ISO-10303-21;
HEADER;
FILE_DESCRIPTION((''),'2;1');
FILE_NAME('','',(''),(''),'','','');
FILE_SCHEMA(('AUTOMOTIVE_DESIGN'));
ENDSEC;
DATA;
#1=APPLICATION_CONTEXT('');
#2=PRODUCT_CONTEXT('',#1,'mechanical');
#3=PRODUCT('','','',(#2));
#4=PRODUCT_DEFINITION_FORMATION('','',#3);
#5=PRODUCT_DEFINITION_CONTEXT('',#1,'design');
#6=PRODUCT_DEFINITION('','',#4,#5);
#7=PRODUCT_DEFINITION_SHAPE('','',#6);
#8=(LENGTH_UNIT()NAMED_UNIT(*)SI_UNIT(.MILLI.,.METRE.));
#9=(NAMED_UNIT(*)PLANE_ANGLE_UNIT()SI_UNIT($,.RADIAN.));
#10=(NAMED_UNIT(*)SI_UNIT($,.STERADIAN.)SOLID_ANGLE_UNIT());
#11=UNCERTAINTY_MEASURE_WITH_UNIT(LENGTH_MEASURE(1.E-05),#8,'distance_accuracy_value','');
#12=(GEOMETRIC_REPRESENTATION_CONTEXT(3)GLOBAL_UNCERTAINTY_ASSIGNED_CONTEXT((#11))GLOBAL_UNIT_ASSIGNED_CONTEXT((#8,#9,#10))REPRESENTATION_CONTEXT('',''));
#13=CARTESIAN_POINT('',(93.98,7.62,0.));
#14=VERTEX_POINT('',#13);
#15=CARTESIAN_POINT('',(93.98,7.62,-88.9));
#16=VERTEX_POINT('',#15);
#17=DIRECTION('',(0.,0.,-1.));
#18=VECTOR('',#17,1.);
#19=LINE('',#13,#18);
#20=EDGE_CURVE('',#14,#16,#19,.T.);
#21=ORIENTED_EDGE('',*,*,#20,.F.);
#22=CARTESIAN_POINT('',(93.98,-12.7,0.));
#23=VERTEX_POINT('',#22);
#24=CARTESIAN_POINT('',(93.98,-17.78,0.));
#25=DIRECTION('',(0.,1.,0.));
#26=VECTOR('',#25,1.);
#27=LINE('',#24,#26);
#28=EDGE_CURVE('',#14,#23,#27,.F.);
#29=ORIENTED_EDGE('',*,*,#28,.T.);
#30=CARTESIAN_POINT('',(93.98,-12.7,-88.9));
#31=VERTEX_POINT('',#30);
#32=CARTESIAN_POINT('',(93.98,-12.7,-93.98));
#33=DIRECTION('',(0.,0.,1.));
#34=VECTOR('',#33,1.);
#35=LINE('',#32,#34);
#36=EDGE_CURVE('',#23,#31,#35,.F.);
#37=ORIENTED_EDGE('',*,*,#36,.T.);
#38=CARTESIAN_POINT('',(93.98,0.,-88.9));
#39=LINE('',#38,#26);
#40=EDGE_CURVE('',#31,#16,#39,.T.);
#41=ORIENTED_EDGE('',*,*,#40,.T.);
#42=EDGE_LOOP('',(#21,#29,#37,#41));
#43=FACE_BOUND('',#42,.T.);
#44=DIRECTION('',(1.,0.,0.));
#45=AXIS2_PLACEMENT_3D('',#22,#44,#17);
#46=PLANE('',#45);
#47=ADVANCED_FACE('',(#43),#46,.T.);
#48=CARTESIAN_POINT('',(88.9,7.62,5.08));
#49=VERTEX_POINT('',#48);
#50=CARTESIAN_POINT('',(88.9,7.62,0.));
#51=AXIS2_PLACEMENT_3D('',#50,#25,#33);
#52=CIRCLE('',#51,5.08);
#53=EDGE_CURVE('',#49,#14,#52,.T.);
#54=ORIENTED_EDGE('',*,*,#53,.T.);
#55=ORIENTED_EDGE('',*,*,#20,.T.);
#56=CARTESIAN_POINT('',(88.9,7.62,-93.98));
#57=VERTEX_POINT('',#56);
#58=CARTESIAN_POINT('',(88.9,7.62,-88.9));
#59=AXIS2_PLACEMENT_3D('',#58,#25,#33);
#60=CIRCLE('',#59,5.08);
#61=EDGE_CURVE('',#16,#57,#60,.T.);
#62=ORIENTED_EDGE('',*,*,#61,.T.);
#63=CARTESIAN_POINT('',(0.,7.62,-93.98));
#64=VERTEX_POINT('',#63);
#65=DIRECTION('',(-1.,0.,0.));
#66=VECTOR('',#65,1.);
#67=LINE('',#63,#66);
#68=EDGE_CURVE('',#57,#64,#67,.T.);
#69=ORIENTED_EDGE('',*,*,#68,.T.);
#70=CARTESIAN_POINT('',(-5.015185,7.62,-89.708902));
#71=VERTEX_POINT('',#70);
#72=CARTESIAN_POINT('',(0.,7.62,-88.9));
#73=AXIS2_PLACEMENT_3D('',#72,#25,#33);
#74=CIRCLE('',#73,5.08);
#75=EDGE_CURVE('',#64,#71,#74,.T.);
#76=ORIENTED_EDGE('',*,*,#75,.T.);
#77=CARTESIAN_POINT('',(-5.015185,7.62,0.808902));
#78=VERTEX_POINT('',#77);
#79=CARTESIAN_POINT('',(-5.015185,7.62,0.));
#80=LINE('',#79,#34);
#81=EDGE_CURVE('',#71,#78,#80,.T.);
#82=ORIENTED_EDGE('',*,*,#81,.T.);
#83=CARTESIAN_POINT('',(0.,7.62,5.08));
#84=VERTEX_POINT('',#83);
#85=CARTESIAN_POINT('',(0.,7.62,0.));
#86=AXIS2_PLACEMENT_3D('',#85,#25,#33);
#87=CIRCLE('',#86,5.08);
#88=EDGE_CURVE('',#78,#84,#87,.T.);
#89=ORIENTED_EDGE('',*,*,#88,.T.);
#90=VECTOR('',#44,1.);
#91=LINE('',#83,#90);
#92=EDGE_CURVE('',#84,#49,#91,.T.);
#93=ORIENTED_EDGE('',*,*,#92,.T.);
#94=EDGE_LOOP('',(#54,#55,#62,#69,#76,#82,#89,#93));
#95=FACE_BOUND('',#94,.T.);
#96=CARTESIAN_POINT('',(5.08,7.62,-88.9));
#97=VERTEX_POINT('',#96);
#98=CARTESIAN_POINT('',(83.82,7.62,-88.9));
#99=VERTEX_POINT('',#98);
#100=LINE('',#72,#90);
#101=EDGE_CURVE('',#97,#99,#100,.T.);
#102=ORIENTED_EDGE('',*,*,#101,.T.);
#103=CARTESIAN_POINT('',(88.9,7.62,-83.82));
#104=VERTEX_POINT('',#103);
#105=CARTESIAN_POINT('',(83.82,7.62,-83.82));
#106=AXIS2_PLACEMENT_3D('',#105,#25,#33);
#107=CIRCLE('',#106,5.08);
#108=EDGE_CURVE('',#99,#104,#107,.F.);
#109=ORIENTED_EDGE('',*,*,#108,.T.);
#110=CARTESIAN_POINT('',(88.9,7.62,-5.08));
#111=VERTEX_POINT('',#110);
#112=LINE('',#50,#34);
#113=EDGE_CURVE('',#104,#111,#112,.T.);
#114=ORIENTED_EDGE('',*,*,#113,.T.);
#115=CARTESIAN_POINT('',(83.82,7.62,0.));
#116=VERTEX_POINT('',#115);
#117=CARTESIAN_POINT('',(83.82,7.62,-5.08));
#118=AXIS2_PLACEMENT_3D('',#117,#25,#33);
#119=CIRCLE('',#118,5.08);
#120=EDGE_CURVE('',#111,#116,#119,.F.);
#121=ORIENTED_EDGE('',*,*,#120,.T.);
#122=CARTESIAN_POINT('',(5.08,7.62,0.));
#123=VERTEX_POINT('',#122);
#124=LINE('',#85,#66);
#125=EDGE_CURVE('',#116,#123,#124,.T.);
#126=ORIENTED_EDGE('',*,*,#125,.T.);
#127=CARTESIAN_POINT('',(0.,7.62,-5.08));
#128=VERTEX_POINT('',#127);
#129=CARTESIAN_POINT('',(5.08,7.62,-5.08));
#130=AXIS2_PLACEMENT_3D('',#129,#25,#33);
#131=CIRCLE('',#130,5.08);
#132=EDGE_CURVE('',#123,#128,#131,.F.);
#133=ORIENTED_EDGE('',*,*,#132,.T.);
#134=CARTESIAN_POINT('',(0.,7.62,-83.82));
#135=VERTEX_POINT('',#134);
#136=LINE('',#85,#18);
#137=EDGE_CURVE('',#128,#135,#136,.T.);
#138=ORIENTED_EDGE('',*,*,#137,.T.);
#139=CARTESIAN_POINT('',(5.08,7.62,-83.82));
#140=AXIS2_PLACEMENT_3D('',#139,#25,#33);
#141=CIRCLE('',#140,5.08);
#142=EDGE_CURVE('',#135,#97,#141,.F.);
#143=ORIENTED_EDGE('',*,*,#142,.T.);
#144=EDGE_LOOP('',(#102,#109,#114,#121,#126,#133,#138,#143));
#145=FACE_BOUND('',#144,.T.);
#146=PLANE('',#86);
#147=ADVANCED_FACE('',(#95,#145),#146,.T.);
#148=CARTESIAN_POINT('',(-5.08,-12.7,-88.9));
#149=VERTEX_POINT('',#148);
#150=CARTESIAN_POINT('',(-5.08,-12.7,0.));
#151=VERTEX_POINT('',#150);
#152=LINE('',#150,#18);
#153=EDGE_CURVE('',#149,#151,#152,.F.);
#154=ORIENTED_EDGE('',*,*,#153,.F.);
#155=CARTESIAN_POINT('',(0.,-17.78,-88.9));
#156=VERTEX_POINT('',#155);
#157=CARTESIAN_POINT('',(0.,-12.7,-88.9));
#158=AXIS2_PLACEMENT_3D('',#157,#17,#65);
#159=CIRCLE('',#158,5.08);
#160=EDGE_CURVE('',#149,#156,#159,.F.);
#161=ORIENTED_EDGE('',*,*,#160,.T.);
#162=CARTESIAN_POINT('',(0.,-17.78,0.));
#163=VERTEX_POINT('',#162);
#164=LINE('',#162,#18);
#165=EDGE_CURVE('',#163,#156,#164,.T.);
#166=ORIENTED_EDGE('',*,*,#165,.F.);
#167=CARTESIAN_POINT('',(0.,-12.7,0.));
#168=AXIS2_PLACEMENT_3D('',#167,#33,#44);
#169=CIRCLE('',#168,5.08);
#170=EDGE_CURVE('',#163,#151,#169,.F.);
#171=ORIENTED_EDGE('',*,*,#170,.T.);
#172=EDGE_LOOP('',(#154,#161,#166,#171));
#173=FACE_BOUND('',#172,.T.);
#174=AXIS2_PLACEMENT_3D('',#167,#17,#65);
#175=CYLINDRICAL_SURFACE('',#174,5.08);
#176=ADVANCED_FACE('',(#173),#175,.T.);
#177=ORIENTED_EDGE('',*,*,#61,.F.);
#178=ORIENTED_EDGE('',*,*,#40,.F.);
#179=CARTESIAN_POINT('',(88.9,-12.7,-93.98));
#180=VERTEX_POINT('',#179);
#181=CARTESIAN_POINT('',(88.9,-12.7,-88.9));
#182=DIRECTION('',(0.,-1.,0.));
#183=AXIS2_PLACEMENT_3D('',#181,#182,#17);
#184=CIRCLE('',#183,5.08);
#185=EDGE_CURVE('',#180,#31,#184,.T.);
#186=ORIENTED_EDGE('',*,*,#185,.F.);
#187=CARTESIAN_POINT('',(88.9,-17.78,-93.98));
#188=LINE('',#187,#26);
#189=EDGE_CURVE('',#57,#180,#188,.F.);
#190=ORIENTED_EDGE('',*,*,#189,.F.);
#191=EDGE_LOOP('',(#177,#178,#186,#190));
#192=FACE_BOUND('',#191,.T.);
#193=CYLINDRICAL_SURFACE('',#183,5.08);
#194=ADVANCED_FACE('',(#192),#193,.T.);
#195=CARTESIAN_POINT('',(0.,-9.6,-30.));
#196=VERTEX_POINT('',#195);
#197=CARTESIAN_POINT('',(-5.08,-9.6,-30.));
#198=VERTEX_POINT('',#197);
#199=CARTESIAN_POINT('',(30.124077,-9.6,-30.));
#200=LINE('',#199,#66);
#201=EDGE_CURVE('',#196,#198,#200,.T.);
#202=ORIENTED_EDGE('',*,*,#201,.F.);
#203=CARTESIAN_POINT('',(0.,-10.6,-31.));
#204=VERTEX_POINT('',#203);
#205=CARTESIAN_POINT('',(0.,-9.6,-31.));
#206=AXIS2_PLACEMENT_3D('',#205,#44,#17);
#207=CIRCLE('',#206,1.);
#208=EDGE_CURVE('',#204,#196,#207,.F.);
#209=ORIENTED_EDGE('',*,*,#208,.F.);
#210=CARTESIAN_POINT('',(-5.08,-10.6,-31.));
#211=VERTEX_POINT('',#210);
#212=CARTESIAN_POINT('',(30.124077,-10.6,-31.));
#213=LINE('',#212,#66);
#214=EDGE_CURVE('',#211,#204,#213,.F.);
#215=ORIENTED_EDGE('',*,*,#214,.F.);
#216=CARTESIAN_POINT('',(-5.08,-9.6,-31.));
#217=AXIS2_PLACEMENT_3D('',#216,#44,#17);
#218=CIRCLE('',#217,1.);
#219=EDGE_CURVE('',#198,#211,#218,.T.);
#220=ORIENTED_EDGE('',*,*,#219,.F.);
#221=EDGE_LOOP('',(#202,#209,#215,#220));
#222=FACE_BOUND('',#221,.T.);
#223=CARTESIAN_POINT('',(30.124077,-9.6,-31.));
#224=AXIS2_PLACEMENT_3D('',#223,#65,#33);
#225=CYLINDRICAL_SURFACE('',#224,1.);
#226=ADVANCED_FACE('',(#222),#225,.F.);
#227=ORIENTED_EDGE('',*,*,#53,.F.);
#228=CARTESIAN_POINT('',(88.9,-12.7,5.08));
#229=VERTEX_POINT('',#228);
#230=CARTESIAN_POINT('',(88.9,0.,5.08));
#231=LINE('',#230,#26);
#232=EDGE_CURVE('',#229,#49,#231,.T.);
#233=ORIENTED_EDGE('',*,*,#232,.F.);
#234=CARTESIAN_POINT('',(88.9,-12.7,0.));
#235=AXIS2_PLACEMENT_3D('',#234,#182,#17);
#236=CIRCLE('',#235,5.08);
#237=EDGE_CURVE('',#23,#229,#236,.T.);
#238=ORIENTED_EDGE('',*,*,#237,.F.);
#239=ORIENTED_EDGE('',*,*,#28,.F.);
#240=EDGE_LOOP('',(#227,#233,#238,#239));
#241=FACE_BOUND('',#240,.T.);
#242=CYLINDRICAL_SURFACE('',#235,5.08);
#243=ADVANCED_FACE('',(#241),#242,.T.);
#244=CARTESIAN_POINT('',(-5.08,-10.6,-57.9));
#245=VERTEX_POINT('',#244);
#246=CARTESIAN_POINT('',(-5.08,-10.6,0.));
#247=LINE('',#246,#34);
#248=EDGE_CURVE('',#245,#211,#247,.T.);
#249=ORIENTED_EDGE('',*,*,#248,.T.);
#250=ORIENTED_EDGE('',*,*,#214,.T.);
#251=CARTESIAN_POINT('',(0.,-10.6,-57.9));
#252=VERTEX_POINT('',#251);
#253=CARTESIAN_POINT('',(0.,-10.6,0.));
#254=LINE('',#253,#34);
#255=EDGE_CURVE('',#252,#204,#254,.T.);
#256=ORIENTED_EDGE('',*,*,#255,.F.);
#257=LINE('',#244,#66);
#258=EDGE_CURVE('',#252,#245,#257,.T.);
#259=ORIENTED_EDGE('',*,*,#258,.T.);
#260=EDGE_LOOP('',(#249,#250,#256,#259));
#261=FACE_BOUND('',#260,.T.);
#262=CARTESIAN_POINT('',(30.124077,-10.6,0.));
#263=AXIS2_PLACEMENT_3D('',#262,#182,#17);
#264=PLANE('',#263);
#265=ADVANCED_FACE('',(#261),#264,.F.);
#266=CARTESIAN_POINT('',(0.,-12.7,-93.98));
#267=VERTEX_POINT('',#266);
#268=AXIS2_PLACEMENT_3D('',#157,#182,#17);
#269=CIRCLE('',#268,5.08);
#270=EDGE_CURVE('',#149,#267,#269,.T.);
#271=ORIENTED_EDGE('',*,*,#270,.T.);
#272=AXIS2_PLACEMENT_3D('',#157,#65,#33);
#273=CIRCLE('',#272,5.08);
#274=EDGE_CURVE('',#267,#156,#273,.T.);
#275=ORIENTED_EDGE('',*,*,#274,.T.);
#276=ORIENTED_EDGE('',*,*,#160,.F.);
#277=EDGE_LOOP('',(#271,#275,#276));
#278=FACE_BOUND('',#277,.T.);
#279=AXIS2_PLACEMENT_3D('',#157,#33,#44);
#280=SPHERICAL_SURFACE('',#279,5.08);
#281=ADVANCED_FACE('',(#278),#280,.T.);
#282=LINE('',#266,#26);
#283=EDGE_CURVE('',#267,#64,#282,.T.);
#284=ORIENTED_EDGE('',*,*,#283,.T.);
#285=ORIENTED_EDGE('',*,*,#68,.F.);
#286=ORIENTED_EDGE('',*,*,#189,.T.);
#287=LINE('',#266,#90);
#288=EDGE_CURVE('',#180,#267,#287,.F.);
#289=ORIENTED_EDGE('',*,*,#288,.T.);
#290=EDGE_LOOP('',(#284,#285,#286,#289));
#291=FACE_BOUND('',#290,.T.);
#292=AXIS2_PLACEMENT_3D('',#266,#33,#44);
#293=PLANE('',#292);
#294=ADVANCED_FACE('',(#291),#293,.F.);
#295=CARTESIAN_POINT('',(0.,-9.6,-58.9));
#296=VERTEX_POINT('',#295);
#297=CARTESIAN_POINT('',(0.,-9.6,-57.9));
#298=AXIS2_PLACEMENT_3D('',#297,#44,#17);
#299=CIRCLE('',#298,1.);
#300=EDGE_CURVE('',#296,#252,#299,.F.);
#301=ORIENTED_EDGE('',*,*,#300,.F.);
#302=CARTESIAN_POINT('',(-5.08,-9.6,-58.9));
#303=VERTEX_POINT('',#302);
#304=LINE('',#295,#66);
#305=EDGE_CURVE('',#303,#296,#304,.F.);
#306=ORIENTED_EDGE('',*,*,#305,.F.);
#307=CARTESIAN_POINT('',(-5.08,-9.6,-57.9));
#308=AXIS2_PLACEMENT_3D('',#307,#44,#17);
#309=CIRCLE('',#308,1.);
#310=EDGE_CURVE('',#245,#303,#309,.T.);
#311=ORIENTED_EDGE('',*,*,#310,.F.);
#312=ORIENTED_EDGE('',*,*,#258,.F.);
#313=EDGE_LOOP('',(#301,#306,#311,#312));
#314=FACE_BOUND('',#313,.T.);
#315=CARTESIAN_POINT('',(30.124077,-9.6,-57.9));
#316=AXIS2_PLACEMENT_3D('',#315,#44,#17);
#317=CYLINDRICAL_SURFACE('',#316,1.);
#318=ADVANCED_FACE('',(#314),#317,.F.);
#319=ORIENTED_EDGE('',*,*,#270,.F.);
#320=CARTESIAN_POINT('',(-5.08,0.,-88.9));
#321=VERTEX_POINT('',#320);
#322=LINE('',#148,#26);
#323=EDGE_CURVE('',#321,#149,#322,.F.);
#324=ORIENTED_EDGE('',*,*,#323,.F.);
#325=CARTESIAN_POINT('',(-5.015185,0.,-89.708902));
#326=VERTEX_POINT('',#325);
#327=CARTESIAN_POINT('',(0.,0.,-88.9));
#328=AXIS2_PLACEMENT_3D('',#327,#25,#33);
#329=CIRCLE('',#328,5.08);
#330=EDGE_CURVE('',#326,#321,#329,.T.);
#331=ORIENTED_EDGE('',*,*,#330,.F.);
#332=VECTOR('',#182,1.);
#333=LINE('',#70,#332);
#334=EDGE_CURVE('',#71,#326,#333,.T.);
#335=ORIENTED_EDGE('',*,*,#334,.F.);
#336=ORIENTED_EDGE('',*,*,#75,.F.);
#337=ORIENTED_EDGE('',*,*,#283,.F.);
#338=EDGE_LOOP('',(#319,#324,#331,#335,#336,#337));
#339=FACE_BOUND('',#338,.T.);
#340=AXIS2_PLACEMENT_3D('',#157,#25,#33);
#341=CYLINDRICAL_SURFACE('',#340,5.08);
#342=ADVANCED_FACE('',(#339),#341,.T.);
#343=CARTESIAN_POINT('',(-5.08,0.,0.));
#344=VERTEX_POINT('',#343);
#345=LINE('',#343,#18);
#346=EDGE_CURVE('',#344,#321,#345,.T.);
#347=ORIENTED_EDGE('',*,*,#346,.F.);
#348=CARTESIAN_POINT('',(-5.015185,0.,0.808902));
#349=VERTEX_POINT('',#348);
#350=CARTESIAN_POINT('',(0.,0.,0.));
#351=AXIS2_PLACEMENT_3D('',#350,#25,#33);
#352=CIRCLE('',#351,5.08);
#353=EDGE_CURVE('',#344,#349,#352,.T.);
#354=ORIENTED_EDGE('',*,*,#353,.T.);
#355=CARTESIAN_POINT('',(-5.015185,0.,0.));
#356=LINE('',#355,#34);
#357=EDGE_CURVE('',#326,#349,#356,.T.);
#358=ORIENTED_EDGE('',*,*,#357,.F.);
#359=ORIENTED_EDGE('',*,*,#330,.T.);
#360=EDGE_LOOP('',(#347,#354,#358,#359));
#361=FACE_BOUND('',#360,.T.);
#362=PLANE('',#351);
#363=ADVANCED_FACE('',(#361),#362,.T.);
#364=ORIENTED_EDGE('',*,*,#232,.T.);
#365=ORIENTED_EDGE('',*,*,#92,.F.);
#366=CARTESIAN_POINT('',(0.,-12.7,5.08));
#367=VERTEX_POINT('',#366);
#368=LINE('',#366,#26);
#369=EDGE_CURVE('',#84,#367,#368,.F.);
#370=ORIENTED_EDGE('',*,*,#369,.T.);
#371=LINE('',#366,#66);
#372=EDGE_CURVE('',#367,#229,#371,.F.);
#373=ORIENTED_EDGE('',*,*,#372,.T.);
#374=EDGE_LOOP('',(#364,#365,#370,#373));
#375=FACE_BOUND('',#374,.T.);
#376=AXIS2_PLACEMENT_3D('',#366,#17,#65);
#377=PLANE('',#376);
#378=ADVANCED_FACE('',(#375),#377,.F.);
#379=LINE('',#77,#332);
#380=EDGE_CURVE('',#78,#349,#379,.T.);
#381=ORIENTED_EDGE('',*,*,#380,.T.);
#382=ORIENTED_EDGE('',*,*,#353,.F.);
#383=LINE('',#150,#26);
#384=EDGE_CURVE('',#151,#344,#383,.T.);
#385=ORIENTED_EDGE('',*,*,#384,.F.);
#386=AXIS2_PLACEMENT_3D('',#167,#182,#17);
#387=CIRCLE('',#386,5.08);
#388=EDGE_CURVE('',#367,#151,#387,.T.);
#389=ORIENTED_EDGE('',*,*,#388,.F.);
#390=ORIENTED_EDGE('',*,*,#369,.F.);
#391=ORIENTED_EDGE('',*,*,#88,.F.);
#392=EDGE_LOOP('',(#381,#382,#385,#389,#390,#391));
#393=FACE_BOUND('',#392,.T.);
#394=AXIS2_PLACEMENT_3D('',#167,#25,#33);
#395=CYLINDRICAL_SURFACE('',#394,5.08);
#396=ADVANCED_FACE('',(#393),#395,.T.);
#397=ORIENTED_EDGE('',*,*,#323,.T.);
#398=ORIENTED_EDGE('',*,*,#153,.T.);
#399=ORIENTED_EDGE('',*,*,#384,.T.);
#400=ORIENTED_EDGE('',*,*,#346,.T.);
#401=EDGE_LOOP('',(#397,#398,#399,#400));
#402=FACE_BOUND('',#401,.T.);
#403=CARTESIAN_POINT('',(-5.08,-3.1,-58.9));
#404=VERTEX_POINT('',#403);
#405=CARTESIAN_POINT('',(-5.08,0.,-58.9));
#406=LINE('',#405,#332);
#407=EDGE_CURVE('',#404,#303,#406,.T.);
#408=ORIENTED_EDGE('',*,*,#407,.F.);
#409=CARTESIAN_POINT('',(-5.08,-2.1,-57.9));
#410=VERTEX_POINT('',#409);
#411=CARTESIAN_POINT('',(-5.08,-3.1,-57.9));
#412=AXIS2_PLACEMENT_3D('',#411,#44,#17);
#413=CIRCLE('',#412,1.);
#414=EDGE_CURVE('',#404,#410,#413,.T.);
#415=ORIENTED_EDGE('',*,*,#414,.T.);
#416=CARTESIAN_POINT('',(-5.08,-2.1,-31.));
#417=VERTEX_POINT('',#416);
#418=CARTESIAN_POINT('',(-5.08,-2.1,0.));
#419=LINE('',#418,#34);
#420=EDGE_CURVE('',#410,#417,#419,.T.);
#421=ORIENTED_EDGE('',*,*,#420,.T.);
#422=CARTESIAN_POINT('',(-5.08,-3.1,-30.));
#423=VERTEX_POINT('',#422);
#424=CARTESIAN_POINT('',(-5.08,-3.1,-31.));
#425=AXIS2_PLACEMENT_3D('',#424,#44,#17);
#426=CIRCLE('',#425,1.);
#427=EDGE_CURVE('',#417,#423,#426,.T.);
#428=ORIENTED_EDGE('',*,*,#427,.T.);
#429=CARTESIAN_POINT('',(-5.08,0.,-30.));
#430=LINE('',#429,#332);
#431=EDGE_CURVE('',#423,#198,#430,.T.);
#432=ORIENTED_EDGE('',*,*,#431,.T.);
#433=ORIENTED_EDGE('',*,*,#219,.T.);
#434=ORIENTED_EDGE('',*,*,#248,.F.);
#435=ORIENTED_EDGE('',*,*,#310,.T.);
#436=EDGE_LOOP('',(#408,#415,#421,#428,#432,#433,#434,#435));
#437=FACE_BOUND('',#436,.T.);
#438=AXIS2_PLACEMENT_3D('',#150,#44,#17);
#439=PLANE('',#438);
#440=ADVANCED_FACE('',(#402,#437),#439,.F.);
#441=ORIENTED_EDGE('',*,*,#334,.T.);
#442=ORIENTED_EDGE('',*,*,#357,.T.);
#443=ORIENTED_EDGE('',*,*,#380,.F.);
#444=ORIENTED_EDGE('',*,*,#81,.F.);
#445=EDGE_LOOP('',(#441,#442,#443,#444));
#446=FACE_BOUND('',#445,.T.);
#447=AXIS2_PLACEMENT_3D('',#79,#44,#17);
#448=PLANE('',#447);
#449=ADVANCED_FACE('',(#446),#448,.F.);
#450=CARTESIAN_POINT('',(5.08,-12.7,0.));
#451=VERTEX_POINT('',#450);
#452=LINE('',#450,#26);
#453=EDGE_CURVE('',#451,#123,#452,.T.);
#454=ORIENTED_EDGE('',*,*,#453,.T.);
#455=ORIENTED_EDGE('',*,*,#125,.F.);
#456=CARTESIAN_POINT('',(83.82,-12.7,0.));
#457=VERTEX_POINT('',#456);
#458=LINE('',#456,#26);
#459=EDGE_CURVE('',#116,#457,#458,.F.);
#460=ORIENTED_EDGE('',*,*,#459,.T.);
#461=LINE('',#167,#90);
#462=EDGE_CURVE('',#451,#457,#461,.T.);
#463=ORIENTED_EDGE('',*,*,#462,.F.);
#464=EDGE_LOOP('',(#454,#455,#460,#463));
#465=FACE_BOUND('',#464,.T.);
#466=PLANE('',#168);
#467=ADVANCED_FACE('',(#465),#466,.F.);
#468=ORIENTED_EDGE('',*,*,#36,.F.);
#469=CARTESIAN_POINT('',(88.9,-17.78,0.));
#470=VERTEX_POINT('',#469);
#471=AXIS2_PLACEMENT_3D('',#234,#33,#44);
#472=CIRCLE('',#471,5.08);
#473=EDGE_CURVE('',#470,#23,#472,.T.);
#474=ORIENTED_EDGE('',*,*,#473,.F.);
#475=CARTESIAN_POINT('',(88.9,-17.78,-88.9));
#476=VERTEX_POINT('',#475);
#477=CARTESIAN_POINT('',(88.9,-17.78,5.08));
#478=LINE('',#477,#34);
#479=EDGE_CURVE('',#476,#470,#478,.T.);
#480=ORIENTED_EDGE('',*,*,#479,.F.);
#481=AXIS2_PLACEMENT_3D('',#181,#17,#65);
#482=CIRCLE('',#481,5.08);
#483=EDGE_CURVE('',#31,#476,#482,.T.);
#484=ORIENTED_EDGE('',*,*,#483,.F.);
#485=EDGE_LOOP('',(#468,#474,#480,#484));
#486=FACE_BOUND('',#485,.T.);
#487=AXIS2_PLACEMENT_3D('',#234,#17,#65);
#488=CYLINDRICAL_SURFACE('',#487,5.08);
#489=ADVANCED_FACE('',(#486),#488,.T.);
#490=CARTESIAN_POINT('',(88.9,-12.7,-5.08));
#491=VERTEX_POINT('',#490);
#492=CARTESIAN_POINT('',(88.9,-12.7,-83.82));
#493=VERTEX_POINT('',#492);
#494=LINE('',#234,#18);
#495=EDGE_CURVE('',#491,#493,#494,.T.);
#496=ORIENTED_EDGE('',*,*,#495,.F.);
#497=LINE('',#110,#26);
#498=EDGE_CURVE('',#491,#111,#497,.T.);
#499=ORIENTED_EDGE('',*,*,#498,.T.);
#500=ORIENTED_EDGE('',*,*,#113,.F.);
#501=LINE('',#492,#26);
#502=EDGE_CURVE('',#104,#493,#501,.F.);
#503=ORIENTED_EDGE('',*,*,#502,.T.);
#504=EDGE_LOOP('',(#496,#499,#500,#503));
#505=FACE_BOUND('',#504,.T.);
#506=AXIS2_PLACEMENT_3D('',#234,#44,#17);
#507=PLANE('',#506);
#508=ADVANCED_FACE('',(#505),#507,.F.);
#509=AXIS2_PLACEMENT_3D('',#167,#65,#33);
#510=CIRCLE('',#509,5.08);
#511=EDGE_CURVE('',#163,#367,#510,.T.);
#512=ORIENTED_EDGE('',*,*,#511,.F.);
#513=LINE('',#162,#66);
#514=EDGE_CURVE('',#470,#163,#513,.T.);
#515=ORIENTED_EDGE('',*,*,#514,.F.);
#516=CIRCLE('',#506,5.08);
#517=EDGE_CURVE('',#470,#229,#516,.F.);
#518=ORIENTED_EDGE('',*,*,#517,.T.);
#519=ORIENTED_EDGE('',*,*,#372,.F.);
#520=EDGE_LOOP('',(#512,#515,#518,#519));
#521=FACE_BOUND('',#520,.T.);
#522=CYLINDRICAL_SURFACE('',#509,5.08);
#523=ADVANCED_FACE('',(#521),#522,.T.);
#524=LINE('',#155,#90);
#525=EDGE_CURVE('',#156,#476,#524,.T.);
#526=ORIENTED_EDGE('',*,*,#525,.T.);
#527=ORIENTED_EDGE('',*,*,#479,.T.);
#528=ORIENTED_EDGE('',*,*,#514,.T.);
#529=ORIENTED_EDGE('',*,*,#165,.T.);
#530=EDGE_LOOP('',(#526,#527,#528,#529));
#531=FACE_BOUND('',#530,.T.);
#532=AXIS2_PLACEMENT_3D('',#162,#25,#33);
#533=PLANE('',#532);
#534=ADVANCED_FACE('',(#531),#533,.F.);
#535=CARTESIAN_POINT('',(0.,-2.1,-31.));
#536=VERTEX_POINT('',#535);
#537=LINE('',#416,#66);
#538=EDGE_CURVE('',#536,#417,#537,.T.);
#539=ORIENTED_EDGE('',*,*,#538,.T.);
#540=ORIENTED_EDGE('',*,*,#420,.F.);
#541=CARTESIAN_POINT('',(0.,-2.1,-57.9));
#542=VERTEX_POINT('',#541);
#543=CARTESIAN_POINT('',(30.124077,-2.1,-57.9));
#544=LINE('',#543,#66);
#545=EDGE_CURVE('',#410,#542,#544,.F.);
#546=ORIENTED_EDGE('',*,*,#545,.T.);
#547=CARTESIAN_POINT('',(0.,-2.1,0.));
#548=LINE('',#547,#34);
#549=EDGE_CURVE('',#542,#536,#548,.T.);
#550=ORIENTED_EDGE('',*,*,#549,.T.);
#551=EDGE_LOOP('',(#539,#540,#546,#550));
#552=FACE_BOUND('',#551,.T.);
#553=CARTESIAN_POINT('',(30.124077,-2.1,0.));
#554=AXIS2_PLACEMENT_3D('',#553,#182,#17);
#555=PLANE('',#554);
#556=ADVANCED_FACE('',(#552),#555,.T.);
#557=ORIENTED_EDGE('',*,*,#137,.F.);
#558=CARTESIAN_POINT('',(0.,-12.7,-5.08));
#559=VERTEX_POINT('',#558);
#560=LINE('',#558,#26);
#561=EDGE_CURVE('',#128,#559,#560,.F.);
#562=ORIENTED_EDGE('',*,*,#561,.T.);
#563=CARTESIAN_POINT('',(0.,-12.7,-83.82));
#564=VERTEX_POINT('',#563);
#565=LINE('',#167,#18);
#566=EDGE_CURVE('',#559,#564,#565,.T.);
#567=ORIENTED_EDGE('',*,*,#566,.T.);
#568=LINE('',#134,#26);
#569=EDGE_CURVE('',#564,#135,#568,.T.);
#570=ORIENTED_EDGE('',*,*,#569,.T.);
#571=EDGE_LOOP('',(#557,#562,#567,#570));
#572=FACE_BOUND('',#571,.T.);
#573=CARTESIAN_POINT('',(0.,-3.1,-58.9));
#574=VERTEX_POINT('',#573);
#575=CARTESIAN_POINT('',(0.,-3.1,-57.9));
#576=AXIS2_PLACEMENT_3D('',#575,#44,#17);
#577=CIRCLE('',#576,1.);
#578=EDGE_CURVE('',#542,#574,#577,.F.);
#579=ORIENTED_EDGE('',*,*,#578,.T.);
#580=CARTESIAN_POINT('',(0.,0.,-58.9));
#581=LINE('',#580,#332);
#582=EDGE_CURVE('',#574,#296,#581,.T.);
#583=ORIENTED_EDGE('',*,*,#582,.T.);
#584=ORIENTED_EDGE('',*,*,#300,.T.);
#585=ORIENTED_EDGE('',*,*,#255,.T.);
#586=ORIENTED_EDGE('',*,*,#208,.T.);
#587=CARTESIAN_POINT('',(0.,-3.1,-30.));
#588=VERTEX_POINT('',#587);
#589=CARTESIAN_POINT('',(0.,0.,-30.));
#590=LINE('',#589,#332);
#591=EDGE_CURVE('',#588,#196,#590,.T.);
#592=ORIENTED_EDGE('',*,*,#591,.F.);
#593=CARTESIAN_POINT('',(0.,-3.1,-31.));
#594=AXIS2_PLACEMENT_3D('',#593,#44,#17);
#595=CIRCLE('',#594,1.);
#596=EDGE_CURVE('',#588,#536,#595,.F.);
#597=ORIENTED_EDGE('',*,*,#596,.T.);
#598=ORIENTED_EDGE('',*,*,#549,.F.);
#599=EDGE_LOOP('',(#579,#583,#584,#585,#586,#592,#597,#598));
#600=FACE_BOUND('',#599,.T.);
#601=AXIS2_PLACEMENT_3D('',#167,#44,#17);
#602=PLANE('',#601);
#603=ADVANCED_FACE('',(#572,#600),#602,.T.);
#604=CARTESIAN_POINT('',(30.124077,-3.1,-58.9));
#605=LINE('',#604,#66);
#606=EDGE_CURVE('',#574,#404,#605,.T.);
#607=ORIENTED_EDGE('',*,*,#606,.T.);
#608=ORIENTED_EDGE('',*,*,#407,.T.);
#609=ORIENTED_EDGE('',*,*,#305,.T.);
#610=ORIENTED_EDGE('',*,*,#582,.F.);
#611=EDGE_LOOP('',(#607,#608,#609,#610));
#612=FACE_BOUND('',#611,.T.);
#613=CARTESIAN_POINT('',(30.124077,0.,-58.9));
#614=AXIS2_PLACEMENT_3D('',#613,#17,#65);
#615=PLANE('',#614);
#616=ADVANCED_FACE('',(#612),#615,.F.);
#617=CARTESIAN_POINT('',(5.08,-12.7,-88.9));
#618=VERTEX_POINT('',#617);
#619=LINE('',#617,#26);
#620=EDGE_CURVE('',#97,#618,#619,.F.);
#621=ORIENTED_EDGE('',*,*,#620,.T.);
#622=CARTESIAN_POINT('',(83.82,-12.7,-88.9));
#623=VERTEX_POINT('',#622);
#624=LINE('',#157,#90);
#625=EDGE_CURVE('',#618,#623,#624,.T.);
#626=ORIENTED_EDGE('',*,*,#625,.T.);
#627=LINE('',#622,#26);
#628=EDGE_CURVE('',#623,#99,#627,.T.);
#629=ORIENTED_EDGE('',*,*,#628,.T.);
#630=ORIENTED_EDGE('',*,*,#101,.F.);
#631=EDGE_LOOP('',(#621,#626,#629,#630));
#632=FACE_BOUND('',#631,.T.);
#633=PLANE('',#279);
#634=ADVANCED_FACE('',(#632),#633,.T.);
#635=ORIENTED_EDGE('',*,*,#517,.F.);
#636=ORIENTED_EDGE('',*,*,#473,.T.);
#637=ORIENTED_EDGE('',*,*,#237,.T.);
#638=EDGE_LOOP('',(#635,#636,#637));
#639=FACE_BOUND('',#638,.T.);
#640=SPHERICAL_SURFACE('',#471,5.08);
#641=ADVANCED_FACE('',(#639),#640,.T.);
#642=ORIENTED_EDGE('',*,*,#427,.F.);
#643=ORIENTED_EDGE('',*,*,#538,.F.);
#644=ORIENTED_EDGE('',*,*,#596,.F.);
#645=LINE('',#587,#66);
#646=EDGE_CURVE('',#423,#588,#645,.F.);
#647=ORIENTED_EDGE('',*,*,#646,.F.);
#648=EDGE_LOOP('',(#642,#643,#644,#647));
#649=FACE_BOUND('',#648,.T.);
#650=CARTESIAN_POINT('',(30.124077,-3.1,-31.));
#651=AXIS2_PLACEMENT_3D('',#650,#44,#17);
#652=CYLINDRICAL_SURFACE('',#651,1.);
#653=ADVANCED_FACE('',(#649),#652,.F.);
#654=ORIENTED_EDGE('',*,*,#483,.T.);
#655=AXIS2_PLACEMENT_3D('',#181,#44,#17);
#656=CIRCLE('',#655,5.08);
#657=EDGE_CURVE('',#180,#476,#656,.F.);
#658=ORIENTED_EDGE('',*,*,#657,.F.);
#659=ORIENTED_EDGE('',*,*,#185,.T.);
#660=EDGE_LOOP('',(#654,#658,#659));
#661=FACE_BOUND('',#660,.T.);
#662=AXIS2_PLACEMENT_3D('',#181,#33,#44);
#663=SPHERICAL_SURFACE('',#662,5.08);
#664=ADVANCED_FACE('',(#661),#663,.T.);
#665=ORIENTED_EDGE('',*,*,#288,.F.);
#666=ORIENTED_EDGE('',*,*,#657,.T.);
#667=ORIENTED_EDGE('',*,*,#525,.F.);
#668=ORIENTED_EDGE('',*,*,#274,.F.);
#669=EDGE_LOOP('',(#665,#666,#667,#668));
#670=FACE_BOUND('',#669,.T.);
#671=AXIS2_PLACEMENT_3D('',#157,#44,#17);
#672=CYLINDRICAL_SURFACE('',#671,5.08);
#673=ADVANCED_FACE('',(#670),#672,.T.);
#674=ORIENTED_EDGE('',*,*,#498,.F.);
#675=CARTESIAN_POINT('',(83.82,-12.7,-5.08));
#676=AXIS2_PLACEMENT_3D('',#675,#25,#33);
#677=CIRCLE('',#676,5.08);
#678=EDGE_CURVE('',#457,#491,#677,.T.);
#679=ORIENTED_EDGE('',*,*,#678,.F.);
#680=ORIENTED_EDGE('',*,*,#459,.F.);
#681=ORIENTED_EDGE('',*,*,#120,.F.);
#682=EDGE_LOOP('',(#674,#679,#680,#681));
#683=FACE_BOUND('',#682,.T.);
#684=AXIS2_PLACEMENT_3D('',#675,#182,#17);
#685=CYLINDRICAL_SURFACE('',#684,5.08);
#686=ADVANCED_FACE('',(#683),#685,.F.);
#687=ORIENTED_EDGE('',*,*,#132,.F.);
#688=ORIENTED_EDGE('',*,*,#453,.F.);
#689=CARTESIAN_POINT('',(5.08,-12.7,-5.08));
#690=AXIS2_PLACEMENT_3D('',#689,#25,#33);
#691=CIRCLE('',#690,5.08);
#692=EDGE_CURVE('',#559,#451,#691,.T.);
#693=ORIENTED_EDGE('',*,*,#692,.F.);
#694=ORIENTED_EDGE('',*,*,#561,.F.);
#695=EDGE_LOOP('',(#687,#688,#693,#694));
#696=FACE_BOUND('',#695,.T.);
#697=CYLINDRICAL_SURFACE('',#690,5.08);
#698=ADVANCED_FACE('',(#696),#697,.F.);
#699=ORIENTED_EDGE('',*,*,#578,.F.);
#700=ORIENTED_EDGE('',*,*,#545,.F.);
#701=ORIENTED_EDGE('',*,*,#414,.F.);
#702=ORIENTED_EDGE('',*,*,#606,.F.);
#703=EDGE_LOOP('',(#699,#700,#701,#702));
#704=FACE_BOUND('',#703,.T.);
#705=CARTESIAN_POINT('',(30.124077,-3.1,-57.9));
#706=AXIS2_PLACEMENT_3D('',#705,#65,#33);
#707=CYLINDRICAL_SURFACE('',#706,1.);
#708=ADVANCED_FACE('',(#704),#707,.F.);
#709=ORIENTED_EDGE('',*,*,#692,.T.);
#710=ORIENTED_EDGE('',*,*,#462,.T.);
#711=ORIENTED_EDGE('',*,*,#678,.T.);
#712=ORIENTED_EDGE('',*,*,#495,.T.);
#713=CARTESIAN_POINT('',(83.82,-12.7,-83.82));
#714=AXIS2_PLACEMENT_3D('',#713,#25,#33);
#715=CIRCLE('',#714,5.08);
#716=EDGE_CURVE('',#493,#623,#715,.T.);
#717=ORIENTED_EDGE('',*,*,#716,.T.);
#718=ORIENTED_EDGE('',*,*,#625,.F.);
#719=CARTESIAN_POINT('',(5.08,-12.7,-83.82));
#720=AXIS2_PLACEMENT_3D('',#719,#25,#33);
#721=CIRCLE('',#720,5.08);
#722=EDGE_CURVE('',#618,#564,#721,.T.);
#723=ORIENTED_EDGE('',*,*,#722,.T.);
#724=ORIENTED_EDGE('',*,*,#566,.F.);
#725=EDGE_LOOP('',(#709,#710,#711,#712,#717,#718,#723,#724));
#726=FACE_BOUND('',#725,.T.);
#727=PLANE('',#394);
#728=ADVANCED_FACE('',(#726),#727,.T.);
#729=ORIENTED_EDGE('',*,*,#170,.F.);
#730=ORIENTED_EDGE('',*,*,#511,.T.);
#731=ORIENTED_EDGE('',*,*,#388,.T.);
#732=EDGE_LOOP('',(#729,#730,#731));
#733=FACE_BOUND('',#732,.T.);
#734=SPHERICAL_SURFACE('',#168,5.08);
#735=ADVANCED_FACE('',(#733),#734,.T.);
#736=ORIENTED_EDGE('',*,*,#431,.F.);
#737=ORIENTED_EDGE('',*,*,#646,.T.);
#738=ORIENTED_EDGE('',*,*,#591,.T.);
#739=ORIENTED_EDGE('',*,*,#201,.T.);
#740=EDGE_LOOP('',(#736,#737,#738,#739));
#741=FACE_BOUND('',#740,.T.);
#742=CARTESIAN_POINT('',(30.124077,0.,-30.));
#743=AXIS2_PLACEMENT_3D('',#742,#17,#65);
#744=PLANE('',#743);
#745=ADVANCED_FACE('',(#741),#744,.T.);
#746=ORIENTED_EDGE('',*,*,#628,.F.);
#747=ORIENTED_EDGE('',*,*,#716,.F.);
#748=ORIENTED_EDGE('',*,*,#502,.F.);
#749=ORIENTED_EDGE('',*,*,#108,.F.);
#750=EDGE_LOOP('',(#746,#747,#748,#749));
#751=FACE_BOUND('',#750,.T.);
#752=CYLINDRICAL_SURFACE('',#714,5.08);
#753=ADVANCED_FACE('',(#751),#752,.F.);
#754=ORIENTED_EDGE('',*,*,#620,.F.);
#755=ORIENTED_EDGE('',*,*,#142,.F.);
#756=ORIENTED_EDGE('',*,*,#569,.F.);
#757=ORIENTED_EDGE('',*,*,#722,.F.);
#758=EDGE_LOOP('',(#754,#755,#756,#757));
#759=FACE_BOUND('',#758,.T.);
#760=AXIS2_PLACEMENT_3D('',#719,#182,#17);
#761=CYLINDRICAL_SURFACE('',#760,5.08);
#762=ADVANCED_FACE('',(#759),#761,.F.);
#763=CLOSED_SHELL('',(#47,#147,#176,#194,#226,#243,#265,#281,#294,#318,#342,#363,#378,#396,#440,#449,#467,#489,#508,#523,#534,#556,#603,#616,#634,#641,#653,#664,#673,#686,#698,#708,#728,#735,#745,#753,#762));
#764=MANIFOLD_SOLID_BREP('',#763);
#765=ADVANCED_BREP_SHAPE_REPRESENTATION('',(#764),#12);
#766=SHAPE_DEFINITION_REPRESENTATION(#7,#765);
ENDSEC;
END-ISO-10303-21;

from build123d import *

# Parameters (mm, degrees)
SKETCH1_W                = 5.08
SKETCH1_H                = 5.08
BOSS_EXTRUDE1_DEPTH      = 12.7
SKETCH2_W                = 99.06
SKETCH2_H                = 99.06
BOSS_EXTRUDE2_DEPTH      = 5.08
FILLET1_R                = 5.08
BOSS_EXTRUDE3_DEPTH      = 10.922
BOSS_EXTRUDE3_DEPTH_BACK = 17.78
SKETCH4_R                = 2.032
BOSS_EXTRUDE4_DEPTH      = 12.7
SKETCH7_R                = 1.143
CUT_EXTRUDE4_DEPTH       = 10.922
SKETCH8_R                = 2.032
CUT_EXTRUDE5_DEPTH       = 12.7
SKETCH5_R                = 1.905
SKETCH5_R_2              = 1.693431134
CUT_EXTRUDE6_DEPTH       = 5.08
SKETCH9_R                = 1.905
SKETCH9_R_2              = 1.016
BOSS_EXTRUDE5_DEPTH      = 3.81
SKETCH6_R                = 1.905
CUT_EXTRUDE7_DEPTH       = 5.08
SKETCH10_R               = 1.905
SKETCH10_R_2             = 1.016
SKETCH10_R_3             = 2.032
BOSS_EXTRUDE8_DEPTH      = 3.81
SKETCH11_W               = 88.9
SKETCH11_H               = 88.9
BOSS_EXTRUDE9_DEPTH      = 7.62
FILLET5_R                = 5.08
SKETCH12_W               = 62.122594268
SKETCH12_H               = 12.7
BOSS_EXTRUDE10_DEPTH     = 5.08
BOSS_EXTRUDE11_START     = -5.08
SKETCH13_W               = 40.450281948
SKETCH13_H               = 12.7
BOSS_EXTRUDE11_DEPTH     = 5.08
SKETCH14_W               = 28.9
SKETCH14_H               = 4.25
CUT_EXTRUDE8_DEPTH       = 5.08
FILLET6_R                = 1


with BuildPart() as part:
    # Sketch1 → Boss-Extrude1 (new body)
    with BuildSketch(Plane(origin=(0, 0, 0), x_dir=(1, 0, 0), z_dir=(0, 1, 0))):
        Polygon((-5.08, 0), (0, 0), (0, 88.9), (88.9, 88.9), (88.9, 93.98), (-5.08, 93.98), align=None)
        Polygon((88.9, 0), (0, 0), (0, -5.08), (93.98, -5.08), (93.98, 88.9), (88.9, 88.9), align=None)
        with Locations((-2.54, -2.54)):
            Rectangle(SKETCH1_W, SKETCH1_H)
        with Locations((91.44, 91.44)):
            Rectangle(SKETCH1_W, SKETCH1_H)
    extrude(amount=-BOSS_EXTRUDE1_DEPTH)

    # Sketch2 → Boss-Extrude2 (add)
    with BuildSketch(Plane(origin=(0, -12.7, 0), x_dir=(-1, 0, 0), z_dir=(0, -1, 0))):
        with Locations((-44.45, 44.45)):
            Rectangle(SKETCH2_W, SKETCH2_H)
    extrude(amount=BOSS_EXTRUDE2_DEPTH)

    # Fillet1
    fillet1_edges = [part.edges().sort_by_distance(p)[0] for p in [
        (-5.08, -8.89, 5.08),
        (-5.08, -8.89, -93.98),
        (93.98, -8.89, -93.98),
        (93.98, -8.89, 5.08),
        (-5.08, -17.78, -44.45),
        (44.45, -17.78, -93.98),
        (93.98, -17.78, -44.45),
        (44.45, -17.78, 5.08),
    ]]
    fillet(fillet1_edges, radius=FILLET1_R)

    # Sketch3 → Boss-Extrude3 (add, two sides)
    with BuildSketch(Plane(origin=(0, 0, 0), x_dir=(1, 0, 0), z_dir=(0, 1, 0))) as boss_extrude3_sk:
        with BuildLine():
            ThreePointArc((16.638673661, 17.781673661), (15.582679356, 17.076080824), (15.83045061, 15.83045061))
            Line((15.83045061, 15.83045061), (16.638673661, 16.638673661))
            Line((16.638673661, 16.638673661), (16.638673661, 17.781673661))
        make_face()
        with BuildLine():
            Line((16.638673661, 17.781673661), (16.638673661, 16.638673661))
            Line((16.638673661, 16.638673661), (17.446896712, 17.446896712))
            ThreePointArc((17.446896712, 17.446896712), (17.076080824, 17.694667967), (16.638673661, 17.781673661))
        make_face()
        with BuildLine():
            Line((16.638673661, 16.638673661), (15.83045061, 15.83045061))
            ThreePointArc((15.83045061, 15.83045061), (17.076080824, 15.582679356), (17.781673661, 16.638673661))
            Line((17.781673661, 16.638673661), (16.638673661, 16.638673661))
        make_face()
        with BuildLine():
            Line((17.446896712, 17.446896712), (16.638673661, 16.638673661))
            Line((16.638673661, 16.638673661), (17.781673661, 16.638673661))
            ThreePointArc((17.781673661, 16.638673661), (17.694667967, 17.076080824), (17.446896712, 17.446896712))
        make_face()
        with BuildLine():
            ThreePointArc((71.453103288, 17.446896712), (71.205332033, 17.076080824), (71.118326339, 16.638673661))
            Line((71.118326339, 16.638673661), (72.261326339, 16.638673661))
            Line((72.261326339, 16.638673661), (71.453103288, 17.446896712))
        make_face()
        with BuildLine():
            Line((72.261326339, 16.638673661), (71.118326339, 16.638673661))
            ThreePointArc((71.118326339, 16.638673661), (71.823919176, 15.582679356), (73.06954939, 15.83045061))
            Line((73.06954939, 15.83045061), (72.261326339, 16.638673661))
        make_face()
        with BuildLine():
            Line((72.261326339, 17.781673661), (72.261326339, 16.638673661))
            Line((72.261326339, 16.638673661), (73.06954939, 15.83045061))
            ThreePointArc((73.06954939, 15.83045061), (73.317320644, 16.201266498), (73.404326339, 16.638673661))
            ThreePointArc((73.404326339, 16.638673661), (73.06954939, 17.446896712), (72.261326339, 17.781673661))
        make_face()
        with BuildLine():
            Line((71.453103288, 17.446896712), (72.261326339, 16.638673661))
            Line((72.261326339, 16.638673661), (72.261326339, 17.781673661))
            ThreePointArc((72.261326339, 17.781673661), (71.823919176, 17.694667967), (71.453103288, 17.446896712))
        make_face()
        with BuildLine():
            ThreePointArc((71.118326339, 72.261326339), (71.205332033, 71.823919176), (71.453103288, 71.453103288))
            Line((71.453103288, 71.453103288), (72.261326339, 72.261326339))
            Line((72.261326339, 72.261326339), (71.118326339, 72.261326339))
        make_face()
        with BuildLine():
            Line((71.118326339, 72.261326339), (72.261326339, 72.261326339))
            Line((72.261326339, 72.261326339), (73.06954939, 73.06954939))
            ThreePointArc((73.06954939, 73.06954939), (71.823919176, 73.317320644), (71.118326339, 72.261326339))
        make_face()
        with BuildLine():
            Line((72.261326339, 72.261326339), (71.453103288, 71.453103288))
            ThreePointArc((71.453103288, 71.453103288), (71.823919176, 71.205332033), (72.261326339, 71.118326339))
            Line((72.261326339, 71.118326339), (72.261326339, 72.261326339))
        make_face()
        with BuildLine():
            Line((73.06954939, 73.06954939), (72.261326339, 72.261326339))
            Line((72.261326339, 72.261326339), (72.261326339, 71.118326339))
            ThreePointArc((72.261326339, 71.118326339), (73.06954939, 71.453103288), (73.404326339, 72.261326339))
            ThreePointArc((73.404326339, 72.261326339), (73.317320644, 72.698733502), (73.06954939, 73.06954939))
        make_face()
        with BuildLine():
            ThreePointArc((15.83045061, 73.06954939), (15.582679356, 71.823919176), (16.638673661, 71.118326339))
            Line((16.638673661, 71.118326339), (16.638673661, 72.261326339))
            Line((16.638673661, 72.261326339), (15.83045061, 73.06954939))
        make_face()
        with BuildLine():
            Line((16.638673661, 72.261326339), (16.638673661, 71.118326339))
            ThreePointArc((16.638673661, 71.118326339), (17.076080824, 71.205332033), (17.446896712, 71.453103288))
            Line((17.446896712, 71.453103288), (16.638673661, 72.261326339))
        make_face()
        with BuildLine():
            Line((17.781673661, 72.261326339), (16.638673661, 72.261326339))
            Line((16.638673661, 72.261326339), (17.446896712, 71.453103288))
            ThreePointArc((17.446896712, 71.453103288), (17.694667967, 71.823919176), (17.781673661, 72.261326339))
        make_face()
        with BuildLine():
            Line((15.83045061, 73.06954939), (16.638673661, 72.261326339))
            Line((16.638673661, 72.261326339), (17.781673661, 72.261326339))
            ThreePointArc((17.781673661, 72.261326339), (17.076080824, 73.317320644), (15.83045061, 73.06954939))
        make_face()
    extrude(amount=BOSS_EXTRUDE3_DEPTH)
    extrude(boss_extrude3_sk.sketch, amount=-BOSS_EXTRUDE3_DEPTH_BACK)

    # Sketch4 → Boss-Extrude4 (add)
    with BuildSketch(Plane(origin=(0, 0, 0), x_dir=(1, 0, 0), z_dir=(0, 1, 0))):
        with Locations((72.261326339, 16.638673661)):
            Circle(SKETCH4_R)
        with Locations((16.638673661, 16.638673661)):
            Circle(SKETCH4_R)
        with Locations((72.261326339, 72.261326339)):
            Circle(SKETCH4_R)
        with Locations((16.638673661, 72.261326339)):
            Circle(SKETCH4_R)
    extrude(amount=-BOSS_EXTRUDE4_DEPTH)

    # Sketch7 → Cut-Extrude4 (cut)
    with BuildSketch(Plane(origin=(0, 10.922, 0), x_dir=(1, 0, 0), z_dir=(0, 1, 0))):
        with Locations((72.261326339, 72.261326339)):
            Circle(SKETCH7_R)
        with Locations((16.638673661, 72.261326339)):
            Circle(SKETCH7_R)
        with Locations((72.261326339, 16.638673661)):
            Circle(SKETCH7_R)
        with Locations((16.638673661, 16.638673661)):
            Circle(SKETCH7_R)
    extrude(amount=-CUT_EXTRUDE4_DEPTH, mode=Mode.SUBTRACT)

    # Sketch8 → Cut-Extrude5 (cut)
    with BuildSketch(Plane(origin=(0, 0, 0), x_dir=(1, 0, 0), z_dir=(0, 1, 0))):
        with Locations((72.261326339, 16.638673661)):
            Circle(SKETCH8_R)
        with Locations((72.261326339, 72.261326339)):
            Circle(SKETCH8_R)
        with Locations((16.638673661, 72.261326339)):
            Circle(SKETCH8_R)
        with Locations((16.638673661, 16.638673661)):
            Circle(SKETCH8_R)
    extrude(amount=-CUT_EXTRUDE5_DEPTH, mode=Mode.SUBTRACT)

    # Sketch5 → Cut-Extrude6 (cut)
    with BuildSketch(Plane.XY.offset(5.08)):
        with Locations((30.48, -6.35)):
            Circle(SKETCH5_R)
        with BuildLine():
            ThreePointArc((44.45, -4.445), (43.201840683, -4.910860216), (42.564146215, -6.080592316))
            Line((42.564146215, -6.080592316), (44.45, -6.35))
            Line((44.45, -6.35), (46.335853785, -6.080592316))
            ThreePointArc((46.335853785, -6.080592316), (45.698159317, -4.910860216), (44.45, -4.445))
        make_face()
        with BuildLine():
            Line((44.45, -6.35), (42.564146215, -6.080592316))
            ThreePointArc((42.564146215, -6.080592316), (42.545, -6.35), (42.564146215, -6.619407684))
            Line((42.564146215, -6.619407684), (44.45, -6.35))
        make_face()
        with BuildLine():
            Line((46.335853785, -6.080592316), (44.45, -6.35))
            Line((44.45, -6.35), (46.335853785, -6.619407684))
            ThreePointArc((46.335853785, -6.619407684), (46.350207418, -6.485043583), (46.355, -6.35))
            ThreePointArc((46.355, -6.35), (46.350207418, -6.214956417), (46.335853785, -6.080592316))
        make_face()
        with BuildLine():
            Line((46.335853785, -6.619407684), (44.45, -6.35))
            Line((44.45, -6.35), (42.564146215, -6.619407684))
            ThreePointArc((42.564146215, -6.619407684), (43.201840683, -7.789139784), (44.45, -8.255))
            ThreePointArc((44.45, -8.255), (45.698159317, -7.789139784), (46.335853785, -6.619407684))
        make_face()
        with Locations((58.418397854, -6.561568866)):
            Circle(SKETCH5_R_2)
    extrude(amount=-CUT_EXTRUDE6_DEPTH, mode=Mode.SUBTRACT)

    # Sketch9 → Boss-Extrude5 (add)
    with BuildSketch(Plane(origin=(0, 0, 0), x_dir=(-1, 0, 0), z_dir=(0, 0, -1))):
        with Locations((-58.418397854, -6.561568866)):
            Circle(SKETCH9_R)
        with Locations((-58.418397854, -6.561568866)):
            Circle(SKETCH9_R_2, mode=Mode.SUBTRACT)
        with Locations((-44.45, -6.35)):
            Circle(SKETCH9_R)
        with Locations((-44.45, -6.35)):
            Circle(SKETCH9_R_2, mode=Mode.SUBTRACT)
        with Locations((-30.48, -6.35)):
            Circle(SKETCH9_R)
        with Locations((-30.48, -6.35)):
            Circle(SKETCH9_R_2, mode=Mode.SUBTRACT)
    extrude(amount=-BOSS_EXTRUDE5_DEPTH)

    # Sketch6 → Cut-Extrude7 (cut)
    with BuildSketch(Plane.ZY.offset(5.08)):
        with BuildLine():
            Line((-54.653499975, -4.892357146), (-56.649300025, -4.607242854))
            ThreePointArc((-56.649300025, -4.607242854), (-57.785, -6.35), (-56.649300025, -8.092757146))
            Line((-56.649300025, -8.092757146), (-54.653499975, -7.807642854))
            ThreePointArc((-54.653499975, -7.807642854), (-53.975, -6.35), (-54.653499975, -4.892357146))
        make_face()
        with Locations((-67.31, -6.35)):
            Circle(SKETCH6_R)
        with Locations((-44.45, -6.35)):
            Circle(SKETCH6_R)
        with BuildLine():
            Line((-32.217974947, -4.60256785), (-34.279225053, -4.89703215))
            ThreePointArc((-34.279225053, -4.89703215), (-34.942696883, -6.35), (-34.279225053, -7.80296785))
            Line((-34.279225053, -7.80296785), (-32.217974947, -8.09743215))
            ThreePointArc((-32.217974947, -8.09743215), (-31.097303117, -6.35), (-32.217974947, -4.60256785))
        make_face()
        with Locations((-21.59, -6.35)):
            Circle(SKETCH6_R)
    extrude(amount=-CUT_EXTRUDE7_DEPTH, mode=Mode.SUBTRACT)

    # Sketch10 → Boss-Extrude8 (add)
    with BuildSketch(Plane(origin=(0, 0, 0), x_dir=(0, 0, -1), z_dir=(1, 0, 0))):
        with Locations((21.59, -6.35)):
            Circle(SKETCH10_R)
        with Locations((21.59, -6.35)):
            Circle(SKETCH10_R_2, mode=Mode.SUBTRACT)
        with Locations((33.02, -6.35)):
            Circle(SKETCH10_R_3)
        with Locations((33.02, -6.35)):
            Circle(SKETCH10_R_2, mode=Mode.SUBTRACT)
        with Locations((44.45, -6.35)):
            Circle(SKETCH10_R)
        with Locations((44.45, -6.35)):
            Circle(SKETCH10_R_2, mode=Mode.SUBTRACT)
        with Locations((55.88, -6.35)):
            Circle(SKETCH10_R)
        with Locations((55.88, -6.35)):
            Circle(SKETCH10_R_2, mode=Mode.SUBTRACT)
        with Locations((67.31, -6.35)):
            Circle(SKETCH10_R)
        with Locations((67.31, -6.35)):
            Circle(SKETCH10_R_2, mode=Mode.SUBTRACT)
    extrude(amount=-BOSS_EXTRUDE8_DEPTH)

    # Sketch11 → Boss-Extrude9 (add)
    with BuildSketch(Plane(origin=(0, 0, 0), x_dir=(1, 0, 0), z_dir=(0, 1, 0))):
        with BuildLine():
            ThreePointArc((93.98, 88.9), (92.492102448, 92.492102448), (88.9, 93.98))
            Line((88.9, 93.98), (0, 93.98))
            ThreePointArc((0, 93.98), (-3.29371971, 92.767532866), (-5.015184737, 89.708901759))
            Line((-5.015184737, 89.708901759), (-5.015184737, -0.808901759))
            ThreePointArc((-5.015184737, -0.808901759), (-3.29371971, -3.867532866), (0, -5.08))
            Line((0, -5.08), (88.9, -5.08))
            ThreePointArc((88.9, -5.08), (92.492102448, -3.592102448), (93.98, 0))
            Line((93.98, 0), (93.98, 88.9))
        make_face()
        with Locations((44.45, 44.45)):
            Rectangle(SKETCH11_W, SKETCH11_H, mode=Mode.SUBTRACT)
    extrude(amount=BOSS_EXTRUDE9_DEPTH)

    # Fillet5
    fillet5_edges = [part.edges().sort_by_distance(p)[0] for p in [
        (88.9, -2.54, 0),
        (88.9, -2.54, -88.9),
        (0, -2.54, -88.9),
        (0, -2.54, 0),
    ]]
    fillet(fillet5_edges, radius=FILLET5_R)

    # Sketch12 → Boss-Extrude10 (add)
    with BuildSketch(Plane.ZY.offset(5.08)):
        with Locations((-45.534139922, -6.35)):
            Rectangle(SKETCH12_W, SKETCH12_H)
    extrude(amount=-BOSS_EXTRUDE10_DEPTH)

    # Sketch13 → Boss-Extrude11 (add)
    with BuildSketch(Plane.XY.offset(5.08).offset(BOSS_EXTRUDE11_START)):
        with Locations((45.477393759, -6.35)):
            Rectangle(SKETCH13_W, SKETCH13_H)
    extrude(amount=BOSS_EXTRUDE11_DEPTH)

    # Sketch14 → Cut-Extrude8 (cut)
    with BuildSketch(Plane.ZY.offset(5.08)):
        with Locations((-44.45, -4.225)):
            Rectangle(SKETCH14_W, SKETCH14_H)
        with Locations((-44.45, -8.475)):
            Rectangle(SKETCH14_W, SKETCH14_H)
    extrude(amount=-CUT_EXTRUDE8_DEPTH, mode=Mode.SUBTRACT)

    # Fillet6
    fillet6_edges = [part.edges().sort_by_distance(p)[0] for p in [
        (-2.54, -2.1, -30),
        (-2.54, -10.6, -30),
        (-2.54, -10.6, -58.9),
        (-2.54, -2.1, -58.9),
    ]]
    fillet(fillet6_edges, radius=FILLET6_R)


solid = part.part
